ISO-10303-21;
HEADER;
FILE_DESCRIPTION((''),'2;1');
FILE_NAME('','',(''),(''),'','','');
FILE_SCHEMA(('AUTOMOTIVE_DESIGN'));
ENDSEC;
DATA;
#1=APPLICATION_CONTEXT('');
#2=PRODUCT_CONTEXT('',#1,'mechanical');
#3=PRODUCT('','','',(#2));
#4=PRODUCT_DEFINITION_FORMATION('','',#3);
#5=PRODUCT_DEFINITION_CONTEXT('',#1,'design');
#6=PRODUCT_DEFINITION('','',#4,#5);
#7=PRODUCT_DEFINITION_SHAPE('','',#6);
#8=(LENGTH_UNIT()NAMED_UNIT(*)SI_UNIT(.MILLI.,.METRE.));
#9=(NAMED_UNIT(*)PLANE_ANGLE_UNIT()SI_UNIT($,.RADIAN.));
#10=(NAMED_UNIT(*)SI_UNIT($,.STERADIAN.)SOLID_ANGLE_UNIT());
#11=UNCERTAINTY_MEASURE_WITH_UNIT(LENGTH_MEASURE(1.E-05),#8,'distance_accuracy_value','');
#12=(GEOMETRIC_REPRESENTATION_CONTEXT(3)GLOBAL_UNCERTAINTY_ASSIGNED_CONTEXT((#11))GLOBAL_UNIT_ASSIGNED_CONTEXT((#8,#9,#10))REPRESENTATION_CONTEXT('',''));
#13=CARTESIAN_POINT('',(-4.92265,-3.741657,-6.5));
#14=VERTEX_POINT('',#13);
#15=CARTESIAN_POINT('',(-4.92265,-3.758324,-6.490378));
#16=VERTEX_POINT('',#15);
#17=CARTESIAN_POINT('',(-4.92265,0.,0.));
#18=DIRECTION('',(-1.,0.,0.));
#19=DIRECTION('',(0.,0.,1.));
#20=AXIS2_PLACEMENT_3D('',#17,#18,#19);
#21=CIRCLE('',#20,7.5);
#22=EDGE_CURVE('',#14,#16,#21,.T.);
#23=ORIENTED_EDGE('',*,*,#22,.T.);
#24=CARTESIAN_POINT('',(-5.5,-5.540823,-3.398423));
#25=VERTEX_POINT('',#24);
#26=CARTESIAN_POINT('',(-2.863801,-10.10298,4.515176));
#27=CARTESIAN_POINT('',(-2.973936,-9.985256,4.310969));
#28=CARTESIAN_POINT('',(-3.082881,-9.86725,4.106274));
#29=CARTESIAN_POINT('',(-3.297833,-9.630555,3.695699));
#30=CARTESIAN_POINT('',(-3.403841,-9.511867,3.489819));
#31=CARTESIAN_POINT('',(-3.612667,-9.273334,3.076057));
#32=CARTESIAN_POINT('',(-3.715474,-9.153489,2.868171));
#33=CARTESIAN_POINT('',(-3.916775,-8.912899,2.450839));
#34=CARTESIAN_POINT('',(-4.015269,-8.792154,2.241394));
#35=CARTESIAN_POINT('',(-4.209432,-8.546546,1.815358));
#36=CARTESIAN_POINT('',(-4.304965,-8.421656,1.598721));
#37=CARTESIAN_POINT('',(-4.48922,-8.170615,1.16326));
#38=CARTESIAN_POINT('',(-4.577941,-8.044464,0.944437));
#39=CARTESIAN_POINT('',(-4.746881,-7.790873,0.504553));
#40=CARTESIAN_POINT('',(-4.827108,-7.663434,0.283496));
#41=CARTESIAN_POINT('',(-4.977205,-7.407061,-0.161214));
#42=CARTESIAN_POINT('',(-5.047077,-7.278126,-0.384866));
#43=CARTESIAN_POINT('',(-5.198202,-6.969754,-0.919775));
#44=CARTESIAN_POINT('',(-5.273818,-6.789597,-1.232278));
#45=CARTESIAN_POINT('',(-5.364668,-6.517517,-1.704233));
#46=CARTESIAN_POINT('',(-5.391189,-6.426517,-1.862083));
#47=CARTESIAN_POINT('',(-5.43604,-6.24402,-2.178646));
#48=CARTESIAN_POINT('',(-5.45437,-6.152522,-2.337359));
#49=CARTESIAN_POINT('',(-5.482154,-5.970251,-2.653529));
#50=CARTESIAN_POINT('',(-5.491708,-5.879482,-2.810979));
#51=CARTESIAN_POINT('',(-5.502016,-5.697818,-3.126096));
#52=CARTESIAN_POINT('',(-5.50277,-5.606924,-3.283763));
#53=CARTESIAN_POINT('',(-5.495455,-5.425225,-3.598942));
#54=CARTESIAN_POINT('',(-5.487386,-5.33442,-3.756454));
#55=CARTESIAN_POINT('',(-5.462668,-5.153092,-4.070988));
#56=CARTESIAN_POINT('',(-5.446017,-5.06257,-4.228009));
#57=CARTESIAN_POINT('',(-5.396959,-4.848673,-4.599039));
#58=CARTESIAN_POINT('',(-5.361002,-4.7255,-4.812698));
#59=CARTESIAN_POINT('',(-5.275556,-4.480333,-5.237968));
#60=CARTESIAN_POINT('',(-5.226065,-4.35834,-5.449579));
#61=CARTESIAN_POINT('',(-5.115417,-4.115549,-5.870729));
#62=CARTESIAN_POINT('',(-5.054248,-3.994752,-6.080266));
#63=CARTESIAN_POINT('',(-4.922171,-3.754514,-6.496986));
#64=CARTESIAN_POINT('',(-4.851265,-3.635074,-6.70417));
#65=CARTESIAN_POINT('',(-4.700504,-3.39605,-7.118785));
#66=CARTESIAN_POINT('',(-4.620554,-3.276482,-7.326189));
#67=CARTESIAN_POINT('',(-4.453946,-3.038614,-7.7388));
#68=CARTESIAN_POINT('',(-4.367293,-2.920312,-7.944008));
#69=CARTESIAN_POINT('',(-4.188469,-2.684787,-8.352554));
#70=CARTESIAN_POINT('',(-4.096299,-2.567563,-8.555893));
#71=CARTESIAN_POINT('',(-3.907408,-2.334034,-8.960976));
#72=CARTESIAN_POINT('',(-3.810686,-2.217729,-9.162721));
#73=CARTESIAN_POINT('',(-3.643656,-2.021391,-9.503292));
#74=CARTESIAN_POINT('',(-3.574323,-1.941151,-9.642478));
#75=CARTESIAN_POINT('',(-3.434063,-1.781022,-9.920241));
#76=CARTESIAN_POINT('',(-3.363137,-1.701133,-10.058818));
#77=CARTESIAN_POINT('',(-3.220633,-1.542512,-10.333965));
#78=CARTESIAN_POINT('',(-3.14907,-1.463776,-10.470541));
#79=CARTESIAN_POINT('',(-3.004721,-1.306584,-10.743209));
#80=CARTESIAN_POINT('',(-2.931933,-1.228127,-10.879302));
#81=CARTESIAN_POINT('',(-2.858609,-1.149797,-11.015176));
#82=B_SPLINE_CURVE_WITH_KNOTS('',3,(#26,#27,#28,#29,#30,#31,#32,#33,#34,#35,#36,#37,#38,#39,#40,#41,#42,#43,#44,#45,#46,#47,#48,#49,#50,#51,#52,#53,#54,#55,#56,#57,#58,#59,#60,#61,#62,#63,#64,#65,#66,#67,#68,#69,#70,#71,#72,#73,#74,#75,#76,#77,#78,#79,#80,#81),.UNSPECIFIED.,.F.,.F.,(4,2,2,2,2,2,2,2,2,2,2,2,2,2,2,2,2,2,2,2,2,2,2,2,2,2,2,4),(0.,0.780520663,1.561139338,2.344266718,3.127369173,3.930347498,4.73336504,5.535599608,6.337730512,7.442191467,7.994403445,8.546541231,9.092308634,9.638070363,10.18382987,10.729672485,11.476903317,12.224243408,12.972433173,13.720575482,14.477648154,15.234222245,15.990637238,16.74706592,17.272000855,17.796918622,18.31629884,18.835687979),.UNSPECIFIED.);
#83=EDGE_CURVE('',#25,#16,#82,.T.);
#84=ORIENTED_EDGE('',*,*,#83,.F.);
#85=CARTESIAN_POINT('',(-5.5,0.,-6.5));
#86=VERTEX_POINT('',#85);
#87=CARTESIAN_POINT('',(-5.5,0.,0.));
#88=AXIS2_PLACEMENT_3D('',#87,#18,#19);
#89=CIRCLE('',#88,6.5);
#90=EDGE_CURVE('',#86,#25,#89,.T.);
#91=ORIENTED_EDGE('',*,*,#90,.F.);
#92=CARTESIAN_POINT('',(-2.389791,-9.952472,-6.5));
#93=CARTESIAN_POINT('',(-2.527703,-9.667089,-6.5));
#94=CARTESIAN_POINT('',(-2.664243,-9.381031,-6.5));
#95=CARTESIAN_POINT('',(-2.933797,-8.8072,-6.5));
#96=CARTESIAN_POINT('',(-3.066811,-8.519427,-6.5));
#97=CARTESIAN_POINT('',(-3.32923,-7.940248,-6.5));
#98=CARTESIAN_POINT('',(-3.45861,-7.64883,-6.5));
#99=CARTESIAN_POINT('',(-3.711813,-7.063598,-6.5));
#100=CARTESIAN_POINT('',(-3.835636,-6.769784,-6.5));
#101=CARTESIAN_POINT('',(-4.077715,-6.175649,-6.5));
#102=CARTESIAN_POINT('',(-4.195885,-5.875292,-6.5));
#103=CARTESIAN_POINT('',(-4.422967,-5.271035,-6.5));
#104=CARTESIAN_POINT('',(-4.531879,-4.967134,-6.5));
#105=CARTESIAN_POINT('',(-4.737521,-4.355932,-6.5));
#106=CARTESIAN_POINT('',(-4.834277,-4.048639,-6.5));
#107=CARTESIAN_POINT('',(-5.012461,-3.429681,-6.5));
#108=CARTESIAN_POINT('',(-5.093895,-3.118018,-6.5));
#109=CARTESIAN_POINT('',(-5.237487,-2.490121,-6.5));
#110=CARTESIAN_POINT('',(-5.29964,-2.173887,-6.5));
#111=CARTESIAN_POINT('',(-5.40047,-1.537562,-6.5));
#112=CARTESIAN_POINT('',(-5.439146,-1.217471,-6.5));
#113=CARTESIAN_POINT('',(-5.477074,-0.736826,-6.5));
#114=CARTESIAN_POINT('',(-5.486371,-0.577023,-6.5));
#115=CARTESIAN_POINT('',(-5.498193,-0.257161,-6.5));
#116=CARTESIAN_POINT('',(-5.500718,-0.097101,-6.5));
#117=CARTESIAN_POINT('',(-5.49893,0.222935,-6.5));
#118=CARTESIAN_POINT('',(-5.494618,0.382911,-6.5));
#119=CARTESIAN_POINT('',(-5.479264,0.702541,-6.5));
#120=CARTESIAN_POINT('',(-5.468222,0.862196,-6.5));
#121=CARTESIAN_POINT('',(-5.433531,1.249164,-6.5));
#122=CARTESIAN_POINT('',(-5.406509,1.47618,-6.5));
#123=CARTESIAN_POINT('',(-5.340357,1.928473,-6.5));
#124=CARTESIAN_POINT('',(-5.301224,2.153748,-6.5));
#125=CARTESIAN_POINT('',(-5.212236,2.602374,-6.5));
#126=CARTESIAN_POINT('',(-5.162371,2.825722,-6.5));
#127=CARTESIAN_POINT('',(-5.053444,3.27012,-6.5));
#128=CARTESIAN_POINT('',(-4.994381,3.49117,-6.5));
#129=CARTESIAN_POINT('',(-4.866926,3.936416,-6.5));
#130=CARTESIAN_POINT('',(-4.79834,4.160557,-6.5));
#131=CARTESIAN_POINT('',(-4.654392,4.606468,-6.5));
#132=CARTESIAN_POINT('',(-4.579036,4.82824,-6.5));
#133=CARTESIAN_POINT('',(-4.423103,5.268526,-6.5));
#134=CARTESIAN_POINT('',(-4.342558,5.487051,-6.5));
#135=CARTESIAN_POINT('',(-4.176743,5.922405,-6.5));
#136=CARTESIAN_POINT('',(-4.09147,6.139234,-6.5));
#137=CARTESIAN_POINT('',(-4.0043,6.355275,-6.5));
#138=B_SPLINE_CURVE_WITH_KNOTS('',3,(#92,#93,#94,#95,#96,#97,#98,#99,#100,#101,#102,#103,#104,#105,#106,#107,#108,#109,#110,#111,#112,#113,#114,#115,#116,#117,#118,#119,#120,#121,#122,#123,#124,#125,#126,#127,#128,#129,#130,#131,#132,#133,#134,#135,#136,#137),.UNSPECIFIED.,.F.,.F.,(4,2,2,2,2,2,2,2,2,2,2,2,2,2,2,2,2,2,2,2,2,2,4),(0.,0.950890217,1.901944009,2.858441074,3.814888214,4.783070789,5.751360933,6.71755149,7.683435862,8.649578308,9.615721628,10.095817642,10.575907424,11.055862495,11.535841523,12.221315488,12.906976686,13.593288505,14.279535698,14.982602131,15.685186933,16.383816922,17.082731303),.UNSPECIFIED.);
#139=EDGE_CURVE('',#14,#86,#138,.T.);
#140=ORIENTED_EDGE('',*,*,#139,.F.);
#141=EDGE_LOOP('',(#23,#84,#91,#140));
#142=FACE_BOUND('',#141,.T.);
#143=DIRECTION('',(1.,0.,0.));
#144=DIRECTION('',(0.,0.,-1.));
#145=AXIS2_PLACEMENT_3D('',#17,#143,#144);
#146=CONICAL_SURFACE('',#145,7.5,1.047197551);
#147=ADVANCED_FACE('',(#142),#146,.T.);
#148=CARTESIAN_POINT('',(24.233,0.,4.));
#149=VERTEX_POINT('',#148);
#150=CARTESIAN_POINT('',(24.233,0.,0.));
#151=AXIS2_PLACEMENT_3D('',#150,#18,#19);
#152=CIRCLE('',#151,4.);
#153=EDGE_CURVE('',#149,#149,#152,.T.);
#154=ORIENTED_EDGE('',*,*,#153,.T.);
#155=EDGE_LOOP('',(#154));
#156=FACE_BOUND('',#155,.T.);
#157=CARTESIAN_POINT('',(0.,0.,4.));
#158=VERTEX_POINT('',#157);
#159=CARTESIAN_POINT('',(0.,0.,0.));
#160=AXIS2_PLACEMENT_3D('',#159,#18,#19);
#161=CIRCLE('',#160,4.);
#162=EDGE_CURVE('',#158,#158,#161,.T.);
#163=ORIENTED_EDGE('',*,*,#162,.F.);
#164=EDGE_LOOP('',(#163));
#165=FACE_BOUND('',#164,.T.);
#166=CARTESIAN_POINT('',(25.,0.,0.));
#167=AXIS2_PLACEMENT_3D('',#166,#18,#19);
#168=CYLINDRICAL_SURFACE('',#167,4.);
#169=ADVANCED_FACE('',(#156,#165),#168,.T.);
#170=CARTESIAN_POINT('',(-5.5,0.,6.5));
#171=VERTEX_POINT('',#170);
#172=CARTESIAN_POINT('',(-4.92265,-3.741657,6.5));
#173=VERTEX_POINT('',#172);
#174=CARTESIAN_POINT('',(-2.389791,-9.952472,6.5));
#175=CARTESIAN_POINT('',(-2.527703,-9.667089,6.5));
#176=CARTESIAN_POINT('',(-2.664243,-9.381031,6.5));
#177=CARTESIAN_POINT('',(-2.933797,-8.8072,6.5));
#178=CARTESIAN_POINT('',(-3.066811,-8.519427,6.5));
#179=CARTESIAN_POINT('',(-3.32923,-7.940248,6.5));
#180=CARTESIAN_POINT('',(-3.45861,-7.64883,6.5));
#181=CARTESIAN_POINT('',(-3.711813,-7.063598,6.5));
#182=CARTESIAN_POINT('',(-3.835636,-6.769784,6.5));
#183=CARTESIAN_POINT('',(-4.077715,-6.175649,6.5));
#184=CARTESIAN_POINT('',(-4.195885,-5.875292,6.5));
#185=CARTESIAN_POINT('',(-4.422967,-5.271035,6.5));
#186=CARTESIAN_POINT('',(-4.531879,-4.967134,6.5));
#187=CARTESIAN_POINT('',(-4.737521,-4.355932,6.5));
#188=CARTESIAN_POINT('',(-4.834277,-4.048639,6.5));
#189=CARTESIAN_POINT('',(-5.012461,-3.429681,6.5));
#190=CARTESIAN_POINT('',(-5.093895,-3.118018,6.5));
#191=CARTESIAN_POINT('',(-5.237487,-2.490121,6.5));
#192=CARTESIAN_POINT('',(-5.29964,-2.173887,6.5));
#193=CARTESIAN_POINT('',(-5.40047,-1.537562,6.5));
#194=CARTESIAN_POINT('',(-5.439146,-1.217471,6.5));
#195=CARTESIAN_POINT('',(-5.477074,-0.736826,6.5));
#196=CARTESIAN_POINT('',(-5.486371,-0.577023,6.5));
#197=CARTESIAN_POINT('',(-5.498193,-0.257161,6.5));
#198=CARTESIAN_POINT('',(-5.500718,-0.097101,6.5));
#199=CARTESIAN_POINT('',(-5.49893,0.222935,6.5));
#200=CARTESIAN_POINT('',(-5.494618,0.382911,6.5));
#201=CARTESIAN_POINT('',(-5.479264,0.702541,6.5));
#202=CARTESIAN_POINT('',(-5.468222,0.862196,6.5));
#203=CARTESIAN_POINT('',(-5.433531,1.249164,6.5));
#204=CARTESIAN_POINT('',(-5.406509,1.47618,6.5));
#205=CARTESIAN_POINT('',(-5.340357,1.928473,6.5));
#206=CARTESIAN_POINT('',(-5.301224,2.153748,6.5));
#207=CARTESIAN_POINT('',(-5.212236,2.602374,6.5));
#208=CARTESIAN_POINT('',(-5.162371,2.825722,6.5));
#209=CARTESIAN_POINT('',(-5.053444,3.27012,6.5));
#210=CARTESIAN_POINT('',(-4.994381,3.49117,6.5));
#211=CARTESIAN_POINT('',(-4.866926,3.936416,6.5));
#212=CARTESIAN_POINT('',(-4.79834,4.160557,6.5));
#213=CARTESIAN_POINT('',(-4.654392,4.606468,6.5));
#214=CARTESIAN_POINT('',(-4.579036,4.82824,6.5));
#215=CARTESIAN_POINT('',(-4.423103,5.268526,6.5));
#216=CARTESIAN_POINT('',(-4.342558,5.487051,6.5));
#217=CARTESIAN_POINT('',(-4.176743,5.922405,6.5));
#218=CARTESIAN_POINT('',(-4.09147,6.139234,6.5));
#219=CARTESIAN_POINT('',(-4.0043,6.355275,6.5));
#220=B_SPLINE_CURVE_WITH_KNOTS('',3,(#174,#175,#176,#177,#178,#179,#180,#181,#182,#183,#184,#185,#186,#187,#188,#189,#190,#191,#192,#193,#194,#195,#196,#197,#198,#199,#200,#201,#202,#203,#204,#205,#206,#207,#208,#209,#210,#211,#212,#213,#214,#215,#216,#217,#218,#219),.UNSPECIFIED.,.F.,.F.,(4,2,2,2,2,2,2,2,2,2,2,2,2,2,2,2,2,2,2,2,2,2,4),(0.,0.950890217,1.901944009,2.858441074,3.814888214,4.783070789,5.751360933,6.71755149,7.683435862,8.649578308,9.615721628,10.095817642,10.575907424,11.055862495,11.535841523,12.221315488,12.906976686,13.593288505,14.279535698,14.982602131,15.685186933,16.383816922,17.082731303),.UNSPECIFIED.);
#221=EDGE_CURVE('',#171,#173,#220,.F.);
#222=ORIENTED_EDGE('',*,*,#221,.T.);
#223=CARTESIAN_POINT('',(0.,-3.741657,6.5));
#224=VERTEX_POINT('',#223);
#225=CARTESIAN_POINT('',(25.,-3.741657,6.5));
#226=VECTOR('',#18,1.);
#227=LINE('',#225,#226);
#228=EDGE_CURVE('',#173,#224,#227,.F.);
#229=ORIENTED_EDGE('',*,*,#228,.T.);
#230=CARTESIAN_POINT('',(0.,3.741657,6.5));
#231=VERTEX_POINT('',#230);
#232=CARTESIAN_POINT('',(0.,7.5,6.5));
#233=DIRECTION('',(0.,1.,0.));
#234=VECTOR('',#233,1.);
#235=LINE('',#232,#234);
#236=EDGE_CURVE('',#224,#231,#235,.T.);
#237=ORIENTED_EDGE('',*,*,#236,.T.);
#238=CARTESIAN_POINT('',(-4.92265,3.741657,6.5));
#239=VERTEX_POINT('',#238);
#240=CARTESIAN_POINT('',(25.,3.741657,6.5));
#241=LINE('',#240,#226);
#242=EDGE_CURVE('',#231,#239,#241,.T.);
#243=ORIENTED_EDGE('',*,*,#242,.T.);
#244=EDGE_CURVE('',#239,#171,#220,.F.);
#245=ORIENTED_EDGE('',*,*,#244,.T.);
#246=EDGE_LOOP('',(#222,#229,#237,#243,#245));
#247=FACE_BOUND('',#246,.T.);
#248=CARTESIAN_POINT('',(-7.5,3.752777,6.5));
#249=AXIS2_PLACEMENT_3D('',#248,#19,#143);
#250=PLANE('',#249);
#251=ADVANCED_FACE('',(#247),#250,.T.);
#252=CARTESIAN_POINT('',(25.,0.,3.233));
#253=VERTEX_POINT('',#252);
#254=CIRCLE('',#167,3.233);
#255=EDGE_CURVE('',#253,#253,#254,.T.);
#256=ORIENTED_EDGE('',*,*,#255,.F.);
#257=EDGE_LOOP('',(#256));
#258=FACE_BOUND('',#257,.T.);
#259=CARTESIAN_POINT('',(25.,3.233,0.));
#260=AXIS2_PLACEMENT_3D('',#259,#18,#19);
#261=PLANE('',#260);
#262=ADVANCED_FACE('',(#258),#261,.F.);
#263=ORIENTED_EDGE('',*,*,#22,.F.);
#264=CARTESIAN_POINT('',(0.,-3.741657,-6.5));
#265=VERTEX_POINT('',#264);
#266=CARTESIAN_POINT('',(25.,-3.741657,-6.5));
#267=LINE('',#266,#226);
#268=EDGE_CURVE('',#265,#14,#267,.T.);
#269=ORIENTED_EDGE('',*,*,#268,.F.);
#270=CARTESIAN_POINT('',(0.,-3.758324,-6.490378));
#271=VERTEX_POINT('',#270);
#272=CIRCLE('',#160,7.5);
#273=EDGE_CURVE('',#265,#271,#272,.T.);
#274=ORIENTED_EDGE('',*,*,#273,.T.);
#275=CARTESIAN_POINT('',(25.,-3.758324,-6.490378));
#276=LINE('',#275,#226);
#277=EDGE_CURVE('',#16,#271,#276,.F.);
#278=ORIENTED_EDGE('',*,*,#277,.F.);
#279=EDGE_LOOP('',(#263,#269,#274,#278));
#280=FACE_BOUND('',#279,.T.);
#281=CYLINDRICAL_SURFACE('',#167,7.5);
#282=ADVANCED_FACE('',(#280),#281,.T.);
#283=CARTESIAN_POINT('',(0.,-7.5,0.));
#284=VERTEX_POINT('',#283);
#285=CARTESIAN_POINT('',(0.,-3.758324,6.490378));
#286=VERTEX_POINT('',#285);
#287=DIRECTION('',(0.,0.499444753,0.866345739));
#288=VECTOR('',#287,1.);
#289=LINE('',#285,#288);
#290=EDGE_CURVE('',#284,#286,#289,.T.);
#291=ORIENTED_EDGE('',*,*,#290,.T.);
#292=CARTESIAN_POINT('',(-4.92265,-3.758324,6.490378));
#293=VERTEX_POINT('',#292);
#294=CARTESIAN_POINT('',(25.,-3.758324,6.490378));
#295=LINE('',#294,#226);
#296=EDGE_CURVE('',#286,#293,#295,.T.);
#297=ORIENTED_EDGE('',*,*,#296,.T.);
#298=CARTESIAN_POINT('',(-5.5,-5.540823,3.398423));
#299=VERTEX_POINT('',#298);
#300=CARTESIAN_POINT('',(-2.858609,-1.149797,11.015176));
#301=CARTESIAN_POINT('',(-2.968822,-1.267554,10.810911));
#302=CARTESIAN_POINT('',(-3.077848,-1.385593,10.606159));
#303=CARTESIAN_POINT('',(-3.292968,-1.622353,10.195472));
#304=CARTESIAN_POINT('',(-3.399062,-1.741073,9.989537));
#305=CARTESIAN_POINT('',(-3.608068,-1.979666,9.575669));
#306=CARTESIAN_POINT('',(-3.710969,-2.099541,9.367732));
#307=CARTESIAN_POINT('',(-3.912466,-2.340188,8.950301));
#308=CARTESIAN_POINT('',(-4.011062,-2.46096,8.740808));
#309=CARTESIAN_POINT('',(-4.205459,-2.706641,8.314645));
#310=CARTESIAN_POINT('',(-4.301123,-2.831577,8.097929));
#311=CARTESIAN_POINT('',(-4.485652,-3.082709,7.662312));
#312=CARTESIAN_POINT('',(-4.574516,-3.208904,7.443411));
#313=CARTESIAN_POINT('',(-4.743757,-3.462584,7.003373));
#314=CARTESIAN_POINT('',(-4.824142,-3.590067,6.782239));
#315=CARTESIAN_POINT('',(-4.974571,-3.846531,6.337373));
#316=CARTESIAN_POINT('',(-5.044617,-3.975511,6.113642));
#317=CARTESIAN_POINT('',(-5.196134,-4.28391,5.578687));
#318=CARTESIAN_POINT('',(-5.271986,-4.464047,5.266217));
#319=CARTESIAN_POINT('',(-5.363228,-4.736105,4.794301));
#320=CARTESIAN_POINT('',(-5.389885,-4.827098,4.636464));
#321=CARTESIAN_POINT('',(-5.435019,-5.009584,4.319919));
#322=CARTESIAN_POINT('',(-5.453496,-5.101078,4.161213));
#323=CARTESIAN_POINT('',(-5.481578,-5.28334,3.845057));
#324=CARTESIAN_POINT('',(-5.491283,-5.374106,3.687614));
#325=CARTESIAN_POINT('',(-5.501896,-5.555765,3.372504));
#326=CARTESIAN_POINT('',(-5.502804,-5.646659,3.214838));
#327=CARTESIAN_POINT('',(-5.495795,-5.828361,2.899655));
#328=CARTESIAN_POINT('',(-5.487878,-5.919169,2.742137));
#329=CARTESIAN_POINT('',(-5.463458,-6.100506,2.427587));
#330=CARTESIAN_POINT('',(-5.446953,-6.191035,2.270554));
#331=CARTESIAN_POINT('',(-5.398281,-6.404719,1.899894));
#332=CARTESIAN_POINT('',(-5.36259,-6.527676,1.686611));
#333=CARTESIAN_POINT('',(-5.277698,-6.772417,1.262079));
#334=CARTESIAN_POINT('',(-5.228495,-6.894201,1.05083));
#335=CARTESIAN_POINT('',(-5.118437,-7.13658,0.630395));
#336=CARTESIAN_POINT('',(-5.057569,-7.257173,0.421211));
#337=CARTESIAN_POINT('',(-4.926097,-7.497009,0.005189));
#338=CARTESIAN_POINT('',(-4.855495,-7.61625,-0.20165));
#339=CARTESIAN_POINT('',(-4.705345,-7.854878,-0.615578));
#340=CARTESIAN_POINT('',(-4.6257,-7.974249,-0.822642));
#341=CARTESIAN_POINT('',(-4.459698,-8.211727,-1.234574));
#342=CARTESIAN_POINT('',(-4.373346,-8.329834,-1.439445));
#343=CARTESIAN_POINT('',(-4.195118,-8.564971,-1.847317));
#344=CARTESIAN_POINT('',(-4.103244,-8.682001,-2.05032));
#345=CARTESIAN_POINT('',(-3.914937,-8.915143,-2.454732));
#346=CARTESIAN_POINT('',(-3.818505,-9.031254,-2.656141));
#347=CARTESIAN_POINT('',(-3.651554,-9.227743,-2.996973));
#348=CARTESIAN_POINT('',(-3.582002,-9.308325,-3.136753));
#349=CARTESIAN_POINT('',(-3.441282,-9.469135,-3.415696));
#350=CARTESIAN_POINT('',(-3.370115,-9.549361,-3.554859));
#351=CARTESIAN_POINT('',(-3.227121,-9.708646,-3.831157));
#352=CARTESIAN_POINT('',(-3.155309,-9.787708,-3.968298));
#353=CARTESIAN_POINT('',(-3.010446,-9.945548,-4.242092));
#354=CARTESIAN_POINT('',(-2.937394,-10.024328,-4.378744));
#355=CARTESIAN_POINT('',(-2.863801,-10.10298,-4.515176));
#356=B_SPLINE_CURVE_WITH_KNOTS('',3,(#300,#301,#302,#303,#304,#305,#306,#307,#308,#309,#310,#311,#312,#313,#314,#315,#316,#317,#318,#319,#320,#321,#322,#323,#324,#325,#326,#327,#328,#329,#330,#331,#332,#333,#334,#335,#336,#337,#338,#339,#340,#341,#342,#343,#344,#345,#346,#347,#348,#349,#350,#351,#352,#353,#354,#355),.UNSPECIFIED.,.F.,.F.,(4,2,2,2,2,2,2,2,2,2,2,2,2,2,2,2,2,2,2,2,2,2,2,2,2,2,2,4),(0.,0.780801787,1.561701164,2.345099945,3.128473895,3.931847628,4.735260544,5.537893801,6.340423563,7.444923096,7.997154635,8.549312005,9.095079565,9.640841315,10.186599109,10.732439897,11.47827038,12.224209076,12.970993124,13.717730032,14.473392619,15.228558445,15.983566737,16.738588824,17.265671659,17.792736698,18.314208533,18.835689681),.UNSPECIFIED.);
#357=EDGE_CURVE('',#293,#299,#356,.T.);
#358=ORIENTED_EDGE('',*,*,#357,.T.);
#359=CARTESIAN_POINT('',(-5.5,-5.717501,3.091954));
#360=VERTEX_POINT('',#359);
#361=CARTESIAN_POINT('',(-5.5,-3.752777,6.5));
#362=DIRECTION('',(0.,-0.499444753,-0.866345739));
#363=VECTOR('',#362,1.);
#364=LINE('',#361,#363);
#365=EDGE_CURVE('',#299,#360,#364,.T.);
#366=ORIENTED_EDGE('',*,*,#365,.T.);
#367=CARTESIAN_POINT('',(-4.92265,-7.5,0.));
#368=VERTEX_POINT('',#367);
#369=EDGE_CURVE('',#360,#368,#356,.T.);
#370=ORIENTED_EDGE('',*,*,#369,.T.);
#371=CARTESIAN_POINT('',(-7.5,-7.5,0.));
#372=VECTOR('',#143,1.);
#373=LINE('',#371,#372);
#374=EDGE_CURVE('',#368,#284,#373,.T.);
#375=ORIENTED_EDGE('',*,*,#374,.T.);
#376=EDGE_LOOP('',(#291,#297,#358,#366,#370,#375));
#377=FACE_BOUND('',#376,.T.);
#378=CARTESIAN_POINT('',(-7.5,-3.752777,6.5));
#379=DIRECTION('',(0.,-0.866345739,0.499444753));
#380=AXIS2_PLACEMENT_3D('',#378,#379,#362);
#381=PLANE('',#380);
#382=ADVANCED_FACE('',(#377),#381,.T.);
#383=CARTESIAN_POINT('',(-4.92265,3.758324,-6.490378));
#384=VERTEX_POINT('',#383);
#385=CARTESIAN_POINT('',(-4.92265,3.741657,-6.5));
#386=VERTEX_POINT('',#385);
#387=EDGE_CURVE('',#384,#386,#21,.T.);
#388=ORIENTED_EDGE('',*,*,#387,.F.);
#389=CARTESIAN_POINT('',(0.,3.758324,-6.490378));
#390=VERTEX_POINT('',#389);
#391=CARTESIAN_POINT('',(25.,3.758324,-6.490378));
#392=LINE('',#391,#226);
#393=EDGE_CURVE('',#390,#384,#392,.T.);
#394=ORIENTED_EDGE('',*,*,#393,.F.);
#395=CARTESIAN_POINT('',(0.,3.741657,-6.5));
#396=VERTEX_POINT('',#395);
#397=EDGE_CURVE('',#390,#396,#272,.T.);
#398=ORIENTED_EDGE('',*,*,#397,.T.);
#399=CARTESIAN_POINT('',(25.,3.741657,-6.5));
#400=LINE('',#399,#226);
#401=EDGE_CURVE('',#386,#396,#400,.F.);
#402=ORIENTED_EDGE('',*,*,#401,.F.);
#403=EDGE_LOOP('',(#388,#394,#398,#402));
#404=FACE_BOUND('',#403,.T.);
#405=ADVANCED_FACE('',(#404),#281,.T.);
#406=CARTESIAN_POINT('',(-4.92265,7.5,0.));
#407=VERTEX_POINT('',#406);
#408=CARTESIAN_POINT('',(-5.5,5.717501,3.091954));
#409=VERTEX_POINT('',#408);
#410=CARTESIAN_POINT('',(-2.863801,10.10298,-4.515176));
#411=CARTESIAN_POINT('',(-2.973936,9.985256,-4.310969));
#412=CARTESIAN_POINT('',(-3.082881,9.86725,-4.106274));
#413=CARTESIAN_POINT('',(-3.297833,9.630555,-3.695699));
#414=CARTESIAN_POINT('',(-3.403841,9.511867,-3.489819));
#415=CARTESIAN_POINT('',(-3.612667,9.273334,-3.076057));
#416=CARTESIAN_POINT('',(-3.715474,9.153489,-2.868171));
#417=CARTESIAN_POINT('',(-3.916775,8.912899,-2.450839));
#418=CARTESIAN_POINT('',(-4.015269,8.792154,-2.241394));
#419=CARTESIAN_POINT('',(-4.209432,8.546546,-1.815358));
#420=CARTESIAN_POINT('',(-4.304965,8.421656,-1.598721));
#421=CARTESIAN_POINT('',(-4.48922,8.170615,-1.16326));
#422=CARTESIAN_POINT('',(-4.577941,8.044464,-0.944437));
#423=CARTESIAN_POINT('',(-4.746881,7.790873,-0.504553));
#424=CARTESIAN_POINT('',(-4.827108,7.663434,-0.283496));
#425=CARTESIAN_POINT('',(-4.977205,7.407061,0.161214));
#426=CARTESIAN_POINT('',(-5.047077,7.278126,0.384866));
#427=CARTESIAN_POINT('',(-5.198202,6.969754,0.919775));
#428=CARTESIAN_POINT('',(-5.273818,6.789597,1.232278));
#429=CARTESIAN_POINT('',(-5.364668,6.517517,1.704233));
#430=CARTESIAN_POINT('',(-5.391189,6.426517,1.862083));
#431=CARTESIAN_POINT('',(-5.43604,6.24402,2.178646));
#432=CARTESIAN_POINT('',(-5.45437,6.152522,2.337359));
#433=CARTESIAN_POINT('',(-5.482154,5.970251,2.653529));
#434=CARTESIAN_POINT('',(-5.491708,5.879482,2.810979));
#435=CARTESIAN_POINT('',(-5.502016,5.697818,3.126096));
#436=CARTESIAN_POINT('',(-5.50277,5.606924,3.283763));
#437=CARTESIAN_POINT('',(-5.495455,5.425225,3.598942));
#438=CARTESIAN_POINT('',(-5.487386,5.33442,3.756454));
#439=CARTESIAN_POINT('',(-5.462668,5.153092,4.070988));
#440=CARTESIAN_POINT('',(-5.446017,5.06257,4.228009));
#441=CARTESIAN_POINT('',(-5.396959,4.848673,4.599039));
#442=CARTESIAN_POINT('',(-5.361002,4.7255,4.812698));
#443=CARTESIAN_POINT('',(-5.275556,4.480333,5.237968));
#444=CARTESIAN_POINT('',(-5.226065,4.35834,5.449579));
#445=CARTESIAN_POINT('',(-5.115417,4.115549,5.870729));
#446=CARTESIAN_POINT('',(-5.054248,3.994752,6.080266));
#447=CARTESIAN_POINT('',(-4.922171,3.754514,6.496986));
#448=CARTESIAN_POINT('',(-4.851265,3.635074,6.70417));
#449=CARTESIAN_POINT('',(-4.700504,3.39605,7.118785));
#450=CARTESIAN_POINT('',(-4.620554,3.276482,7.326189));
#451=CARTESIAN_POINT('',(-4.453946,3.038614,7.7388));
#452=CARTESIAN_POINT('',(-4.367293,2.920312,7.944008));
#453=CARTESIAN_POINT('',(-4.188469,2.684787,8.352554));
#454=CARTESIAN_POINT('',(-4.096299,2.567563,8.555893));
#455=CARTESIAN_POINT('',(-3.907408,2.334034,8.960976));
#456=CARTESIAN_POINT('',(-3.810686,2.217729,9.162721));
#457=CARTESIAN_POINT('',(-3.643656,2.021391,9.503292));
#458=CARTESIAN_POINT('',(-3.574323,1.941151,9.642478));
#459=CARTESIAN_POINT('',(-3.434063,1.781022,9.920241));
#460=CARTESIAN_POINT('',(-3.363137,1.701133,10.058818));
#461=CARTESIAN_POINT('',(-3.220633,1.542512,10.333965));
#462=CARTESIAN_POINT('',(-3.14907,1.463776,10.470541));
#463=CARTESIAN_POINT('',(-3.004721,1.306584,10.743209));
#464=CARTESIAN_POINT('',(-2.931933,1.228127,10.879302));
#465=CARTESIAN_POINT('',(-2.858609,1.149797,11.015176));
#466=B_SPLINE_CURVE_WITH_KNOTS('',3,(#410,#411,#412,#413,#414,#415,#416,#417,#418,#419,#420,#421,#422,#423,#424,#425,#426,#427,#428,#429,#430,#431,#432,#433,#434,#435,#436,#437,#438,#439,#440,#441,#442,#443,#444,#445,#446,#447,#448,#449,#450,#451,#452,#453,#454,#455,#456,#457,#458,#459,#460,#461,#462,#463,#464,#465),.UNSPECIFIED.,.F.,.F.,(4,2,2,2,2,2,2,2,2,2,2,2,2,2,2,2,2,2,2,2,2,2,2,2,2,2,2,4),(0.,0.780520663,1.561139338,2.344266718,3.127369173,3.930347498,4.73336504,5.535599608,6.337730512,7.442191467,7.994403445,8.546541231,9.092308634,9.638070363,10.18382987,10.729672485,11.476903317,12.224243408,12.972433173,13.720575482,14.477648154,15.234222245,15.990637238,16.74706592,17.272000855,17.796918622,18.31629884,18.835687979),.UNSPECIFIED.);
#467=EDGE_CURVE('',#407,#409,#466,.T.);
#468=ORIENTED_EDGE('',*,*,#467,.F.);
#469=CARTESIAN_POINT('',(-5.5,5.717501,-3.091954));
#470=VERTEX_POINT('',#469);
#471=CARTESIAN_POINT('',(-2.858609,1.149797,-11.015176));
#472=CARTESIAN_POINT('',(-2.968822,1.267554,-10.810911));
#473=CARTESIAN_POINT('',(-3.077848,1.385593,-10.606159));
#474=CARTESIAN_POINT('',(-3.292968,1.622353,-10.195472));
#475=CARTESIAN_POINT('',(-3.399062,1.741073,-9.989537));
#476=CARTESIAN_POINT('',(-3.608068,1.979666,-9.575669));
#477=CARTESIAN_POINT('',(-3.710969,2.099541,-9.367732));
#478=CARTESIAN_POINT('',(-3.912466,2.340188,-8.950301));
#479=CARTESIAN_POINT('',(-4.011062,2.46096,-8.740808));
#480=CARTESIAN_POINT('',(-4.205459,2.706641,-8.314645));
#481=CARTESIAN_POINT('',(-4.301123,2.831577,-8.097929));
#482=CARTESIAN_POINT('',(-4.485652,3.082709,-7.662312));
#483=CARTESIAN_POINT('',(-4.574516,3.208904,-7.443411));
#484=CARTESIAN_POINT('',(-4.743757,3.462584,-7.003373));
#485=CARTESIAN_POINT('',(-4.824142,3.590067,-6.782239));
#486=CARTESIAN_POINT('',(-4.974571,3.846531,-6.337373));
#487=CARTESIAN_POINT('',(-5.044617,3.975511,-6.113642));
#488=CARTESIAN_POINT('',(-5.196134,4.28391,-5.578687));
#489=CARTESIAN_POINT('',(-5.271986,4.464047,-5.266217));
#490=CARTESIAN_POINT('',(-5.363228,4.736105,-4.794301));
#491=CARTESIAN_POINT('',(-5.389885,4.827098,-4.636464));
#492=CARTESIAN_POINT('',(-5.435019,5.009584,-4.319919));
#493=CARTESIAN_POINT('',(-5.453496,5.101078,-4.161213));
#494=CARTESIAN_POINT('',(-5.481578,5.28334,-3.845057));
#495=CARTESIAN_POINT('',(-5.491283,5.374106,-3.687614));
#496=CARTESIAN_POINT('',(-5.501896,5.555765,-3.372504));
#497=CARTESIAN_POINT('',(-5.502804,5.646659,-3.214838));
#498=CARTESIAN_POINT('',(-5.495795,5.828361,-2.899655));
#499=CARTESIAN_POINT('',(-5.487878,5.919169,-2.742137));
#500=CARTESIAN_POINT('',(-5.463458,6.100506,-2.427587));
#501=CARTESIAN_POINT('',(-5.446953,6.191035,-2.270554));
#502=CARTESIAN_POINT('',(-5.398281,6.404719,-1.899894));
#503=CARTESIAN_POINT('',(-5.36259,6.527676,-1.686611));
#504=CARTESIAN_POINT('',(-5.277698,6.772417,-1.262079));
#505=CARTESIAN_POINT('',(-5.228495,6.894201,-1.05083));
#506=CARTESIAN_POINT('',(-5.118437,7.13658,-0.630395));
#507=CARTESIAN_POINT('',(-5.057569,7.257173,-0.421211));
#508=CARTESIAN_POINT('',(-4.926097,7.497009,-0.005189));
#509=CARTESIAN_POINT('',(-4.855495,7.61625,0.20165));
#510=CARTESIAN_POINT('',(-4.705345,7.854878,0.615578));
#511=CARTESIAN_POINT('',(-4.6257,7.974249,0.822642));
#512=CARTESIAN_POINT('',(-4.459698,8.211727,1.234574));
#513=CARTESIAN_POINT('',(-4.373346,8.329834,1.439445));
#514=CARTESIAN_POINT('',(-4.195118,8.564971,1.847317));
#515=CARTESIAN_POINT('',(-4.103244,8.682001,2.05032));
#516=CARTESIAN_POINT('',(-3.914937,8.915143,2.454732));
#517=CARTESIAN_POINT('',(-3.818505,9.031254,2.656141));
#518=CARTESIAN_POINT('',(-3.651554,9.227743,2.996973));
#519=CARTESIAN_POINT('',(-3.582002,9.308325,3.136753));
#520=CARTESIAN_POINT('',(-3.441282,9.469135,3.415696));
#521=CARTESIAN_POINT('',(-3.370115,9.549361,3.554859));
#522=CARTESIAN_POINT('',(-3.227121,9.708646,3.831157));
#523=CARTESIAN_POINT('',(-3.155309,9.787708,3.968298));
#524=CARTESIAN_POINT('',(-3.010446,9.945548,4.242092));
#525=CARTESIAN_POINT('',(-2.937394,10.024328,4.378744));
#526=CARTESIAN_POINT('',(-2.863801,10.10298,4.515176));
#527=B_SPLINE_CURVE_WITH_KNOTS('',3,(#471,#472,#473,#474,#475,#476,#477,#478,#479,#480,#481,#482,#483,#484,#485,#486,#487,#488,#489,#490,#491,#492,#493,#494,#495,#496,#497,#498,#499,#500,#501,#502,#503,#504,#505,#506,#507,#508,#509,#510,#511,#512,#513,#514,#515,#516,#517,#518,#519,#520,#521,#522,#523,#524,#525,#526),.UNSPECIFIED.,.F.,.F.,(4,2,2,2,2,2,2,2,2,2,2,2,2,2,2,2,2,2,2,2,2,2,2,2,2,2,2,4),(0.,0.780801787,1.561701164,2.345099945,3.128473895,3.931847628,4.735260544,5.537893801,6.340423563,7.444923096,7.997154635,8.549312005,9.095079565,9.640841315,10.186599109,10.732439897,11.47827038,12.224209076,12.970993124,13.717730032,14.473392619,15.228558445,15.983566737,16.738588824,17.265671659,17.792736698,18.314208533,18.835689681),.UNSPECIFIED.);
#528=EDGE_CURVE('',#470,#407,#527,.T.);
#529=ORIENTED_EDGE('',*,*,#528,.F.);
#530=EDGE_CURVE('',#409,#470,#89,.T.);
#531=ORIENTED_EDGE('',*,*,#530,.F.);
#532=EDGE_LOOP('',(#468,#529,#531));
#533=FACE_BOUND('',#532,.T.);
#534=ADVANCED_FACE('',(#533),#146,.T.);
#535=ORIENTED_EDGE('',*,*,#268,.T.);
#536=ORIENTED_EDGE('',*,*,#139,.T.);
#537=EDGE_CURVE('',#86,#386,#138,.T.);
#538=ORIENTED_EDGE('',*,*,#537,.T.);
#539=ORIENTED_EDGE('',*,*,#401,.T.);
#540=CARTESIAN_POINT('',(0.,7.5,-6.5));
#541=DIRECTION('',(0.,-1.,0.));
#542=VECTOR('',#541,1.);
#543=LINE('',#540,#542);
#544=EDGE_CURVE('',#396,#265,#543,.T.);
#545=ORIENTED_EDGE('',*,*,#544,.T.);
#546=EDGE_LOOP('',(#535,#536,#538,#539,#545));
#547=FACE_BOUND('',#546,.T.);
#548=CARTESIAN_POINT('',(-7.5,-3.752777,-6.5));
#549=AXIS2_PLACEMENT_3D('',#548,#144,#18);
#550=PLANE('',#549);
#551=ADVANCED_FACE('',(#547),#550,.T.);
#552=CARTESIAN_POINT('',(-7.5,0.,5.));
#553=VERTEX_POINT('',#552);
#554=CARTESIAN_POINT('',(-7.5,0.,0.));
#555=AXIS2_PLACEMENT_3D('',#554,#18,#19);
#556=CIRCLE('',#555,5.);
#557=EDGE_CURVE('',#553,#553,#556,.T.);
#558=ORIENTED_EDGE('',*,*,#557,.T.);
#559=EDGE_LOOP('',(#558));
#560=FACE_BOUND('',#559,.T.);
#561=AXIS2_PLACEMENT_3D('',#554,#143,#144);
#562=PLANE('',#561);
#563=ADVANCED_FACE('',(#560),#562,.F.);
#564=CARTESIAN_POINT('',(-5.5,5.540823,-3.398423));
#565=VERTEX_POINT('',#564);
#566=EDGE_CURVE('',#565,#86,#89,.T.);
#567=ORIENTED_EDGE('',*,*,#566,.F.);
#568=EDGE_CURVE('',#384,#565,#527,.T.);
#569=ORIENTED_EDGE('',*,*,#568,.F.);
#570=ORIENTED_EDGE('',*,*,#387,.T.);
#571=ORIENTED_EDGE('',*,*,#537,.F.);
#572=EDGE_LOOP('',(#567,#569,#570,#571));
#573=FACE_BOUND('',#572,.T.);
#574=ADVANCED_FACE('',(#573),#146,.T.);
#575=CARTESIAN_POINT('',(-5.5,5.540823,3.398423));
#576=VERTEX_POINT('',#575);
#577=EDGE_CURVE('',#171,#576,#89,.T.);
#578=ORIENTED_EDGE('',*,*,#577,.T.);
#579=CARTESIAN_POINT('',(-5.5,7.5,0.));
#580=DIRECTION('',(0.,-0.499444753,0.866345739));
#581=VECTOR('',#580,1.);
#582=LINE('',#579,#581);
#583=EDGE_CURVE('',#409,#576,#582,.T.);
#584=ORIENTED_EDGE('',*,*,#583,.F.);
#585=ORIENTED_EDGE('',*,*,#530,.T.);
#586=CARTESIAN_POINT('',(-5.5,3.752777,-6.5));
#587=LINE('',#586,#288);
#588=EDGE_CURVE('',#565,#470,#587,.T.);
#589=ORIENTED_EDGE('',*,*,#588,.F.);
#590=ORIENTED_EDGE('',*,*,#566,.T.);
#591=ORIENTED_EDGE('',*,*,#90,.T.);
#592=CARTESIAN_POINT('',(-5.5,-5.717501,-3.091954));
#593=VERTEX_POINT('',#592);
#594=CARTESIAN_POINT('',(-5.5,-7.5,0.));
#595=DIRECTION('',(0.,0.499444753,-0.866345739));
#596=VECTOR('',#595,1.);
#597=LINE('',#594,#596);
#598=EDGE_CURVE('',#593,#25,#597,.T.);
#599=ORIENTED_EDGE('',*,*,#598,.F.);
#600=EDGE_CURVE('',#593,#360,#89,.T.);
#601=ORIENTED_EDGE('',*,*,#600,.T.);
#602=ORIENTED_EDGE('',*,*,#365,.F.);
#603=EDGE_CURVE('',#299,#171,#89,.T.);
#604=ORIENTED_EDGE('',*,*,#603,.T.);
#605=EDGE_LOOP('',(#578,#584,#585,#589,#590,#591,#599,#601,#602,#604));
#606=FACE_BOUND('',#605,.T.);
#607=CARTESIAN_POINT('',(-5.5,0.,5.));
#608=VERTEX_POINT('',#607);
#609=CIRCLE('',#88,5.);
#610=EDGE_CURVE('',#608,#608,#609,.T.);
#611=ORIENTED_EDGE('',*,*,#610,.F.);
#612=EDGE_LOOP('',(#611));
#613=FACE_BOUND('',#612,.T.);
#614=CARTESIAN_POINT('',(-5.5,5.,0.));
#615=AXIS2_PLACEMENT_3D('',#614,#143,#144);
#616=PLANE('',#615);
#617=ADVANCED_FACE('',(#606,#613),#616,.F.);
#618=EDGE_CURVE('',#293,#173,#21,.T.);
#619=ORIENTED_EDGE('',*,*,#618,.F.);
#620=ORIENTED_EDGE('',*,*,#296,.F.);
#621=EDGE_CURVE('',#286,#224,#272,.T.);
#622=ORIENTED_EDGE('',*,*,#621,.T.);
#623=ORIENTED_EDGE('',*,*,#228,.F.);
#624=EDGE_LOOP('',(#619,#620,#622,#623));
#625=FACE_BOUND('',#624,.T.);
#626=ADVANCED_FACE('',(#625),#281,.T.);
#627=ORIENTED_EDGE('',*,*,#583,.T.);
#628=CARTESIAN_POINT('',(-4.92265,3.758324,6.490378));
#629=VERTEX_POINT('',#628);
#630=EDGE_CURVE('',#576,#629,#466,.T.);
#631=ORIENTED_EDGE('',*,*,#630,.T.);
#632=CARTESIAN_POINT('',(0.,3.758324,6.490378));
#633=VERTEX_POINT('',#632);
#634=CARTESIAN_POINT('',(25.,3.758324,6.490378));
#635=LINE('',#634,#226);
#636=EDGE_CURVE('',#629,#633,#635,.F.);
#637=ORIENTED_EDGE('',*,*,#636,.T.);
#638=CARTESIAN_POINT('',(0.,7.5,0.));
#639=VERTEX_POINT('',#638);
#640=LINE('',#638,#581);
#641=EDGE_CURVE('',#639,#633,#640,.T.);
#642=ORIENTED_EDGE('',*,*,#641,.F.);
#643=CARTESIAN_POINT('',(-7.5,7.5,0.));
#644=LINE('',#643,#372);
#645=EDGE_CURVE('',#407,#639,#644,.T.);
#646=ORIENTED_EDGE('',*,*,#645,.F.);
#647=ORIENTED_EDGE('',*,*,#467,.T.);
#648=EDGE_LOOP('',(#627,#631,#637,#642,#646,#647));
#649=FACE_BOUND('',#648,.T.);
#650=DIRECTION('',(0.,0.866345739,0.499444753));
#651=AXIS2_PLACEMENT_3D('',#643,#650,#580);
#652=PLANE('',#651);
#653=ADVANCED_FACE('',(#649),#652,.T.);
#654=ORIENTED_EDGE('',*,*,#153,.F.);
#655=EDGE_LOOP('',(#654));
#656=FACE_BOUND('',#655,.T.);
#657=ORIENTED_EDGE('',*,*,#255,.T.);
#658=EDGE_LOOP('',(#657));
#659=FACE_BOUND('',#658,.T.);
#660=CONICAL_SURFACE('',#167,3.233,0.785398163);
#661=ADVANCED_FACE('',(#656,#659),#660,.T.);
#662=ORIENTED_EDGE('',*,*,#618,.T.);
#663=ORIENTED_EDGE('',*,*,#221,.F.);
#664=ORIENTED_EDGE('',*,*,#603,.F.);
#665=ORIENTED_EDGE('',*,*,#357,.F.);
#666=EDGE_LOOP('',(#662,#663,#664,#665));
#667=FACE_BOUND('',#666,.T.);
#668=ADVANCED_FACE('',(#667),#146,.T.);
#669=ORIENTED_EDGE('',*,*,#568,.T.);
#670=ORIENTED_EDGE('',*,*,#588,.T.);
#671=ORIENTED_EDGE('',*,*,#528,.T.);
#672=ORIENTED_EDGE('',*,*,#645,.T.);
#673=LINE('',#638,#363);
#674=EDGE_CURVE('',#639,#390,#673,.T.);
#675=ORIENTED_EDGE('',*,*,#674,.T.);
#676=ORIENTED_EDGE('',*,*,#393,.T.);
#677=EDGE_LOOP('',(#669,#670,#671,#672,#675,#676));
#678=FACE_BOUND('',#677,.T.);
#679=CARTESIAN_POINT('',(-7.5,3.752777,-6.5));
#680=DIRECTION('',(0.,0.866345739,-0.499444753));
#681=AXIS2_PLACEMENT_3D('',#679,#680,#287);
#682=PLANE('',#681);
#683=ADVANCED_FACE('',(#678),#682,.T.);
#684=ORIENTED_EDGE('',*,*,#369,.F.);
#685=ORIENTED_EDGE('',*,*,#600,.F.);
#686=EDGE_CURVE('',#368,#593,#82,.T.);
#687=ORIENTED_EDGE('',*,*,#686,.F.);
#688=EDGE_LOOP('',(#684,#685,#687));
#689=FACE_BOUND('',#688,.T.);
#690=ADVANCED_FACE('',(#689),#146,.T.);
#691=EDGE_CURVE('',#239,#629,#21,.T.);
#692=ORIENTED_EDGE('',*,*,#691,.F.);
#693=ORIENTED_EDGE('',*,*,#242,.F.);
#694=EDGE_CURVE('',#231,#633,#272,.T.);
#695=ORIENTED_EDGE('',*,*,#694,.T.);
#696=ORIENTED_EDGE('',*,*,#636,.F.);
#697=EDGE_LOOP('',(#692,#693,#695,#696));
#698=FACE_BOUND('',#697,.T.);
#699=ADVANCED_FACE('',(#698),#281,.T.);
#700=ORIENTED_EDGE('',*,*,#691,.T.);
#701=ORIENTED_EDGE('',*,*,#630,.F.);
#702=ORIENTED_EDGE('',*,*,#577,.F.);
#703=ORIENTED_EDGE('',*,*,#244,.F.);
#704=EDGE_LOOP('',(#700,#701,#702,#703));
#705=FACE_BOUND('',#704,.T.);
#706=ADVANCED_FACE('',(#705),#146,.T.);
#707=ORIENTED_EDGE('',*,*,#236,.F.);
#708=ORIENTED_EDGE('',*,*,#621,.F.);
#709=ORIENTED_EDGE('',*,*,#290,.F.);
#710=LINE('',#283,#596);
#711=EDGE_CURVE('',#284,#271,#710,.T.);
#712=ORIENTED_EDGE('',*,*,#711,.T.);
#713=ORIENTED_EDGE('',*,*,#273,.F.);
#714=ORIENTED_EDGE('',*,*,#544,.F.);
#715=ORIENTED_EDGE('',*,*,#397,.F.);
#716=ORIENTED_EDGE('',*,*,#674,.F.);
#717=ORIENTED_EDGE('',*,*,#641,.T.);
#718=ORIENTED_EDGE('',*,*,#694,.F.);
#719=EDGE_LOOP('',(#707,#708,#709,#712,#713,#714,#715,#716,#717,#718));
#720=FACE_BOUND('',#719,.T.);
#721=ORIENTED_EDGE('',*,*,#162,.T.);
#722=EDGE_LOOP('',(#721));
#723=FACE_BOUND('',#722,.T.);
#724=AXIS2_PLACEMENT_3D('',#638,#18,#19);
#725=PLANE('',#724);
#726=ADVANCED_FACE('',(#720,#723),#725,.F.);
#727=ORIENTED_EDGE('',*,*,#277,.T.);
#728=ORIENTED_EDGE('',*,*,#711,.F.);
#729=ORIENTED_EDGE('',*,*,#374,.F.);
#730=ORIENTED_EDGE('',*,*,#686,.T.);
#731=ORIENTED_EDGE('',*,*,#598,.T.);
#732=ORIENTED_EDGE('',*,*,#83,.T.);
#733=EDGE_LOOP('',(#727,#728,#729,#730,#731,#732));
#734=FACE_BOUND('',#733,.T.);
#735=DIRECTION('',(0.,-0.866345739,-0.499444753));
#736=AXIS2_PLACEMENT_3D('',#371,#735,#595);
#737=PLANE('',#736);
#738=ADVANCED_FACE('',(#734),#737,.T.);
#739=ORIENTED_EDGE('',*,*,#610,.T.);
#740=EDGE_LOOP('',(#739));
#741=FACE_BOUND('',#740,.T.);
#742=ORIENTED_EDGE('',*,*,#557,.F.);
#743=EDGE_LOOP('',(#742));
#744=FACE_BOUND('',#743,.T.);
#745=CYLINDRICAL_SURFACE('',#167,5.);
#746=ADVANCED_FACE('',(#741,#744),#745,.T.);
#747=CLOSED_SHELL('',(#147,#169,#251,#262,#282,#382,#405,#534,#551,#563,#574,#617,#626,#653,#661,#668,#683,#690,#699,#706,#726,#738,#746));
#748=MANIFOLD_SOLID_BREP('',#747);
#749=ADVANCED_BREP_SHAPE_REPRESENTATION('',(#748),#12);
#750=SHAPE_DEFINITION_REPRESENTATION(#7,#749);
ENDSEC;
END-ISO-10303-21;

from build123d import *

# Parameters (mm, degrees)
SKETCH_2_W          = 30
SKETCH_2_H          = 30
CUT_EXTRUDE_1_DEPTH = 7.5


with BuildPart() as part:
    # 草图1 → 旋转1 (revolve)
    with BuildSketch(Plane.XY):
        Polygon((-7.5, 0), (-7.5, 5), (-5.5, 5), (-5.5, 6.5), (-4.922649731, 7.5), (0, 7.5), (0, 4), (24.233, 4), (25, 3.233), (25, 0), align=None)
    revolve(axis=Axis((25, 0, 0), (-1, 0, 0)))

    # 草图2 → 切除-拉伸1 (cut)
    with BuildSketch(Plane(origin=(0, 0, 0), x_dir=(0, 0, -1), z_dir=(1, 0, 0))):
        Rectangle(SKETCH_2_W, SKETCH_2_H)
        Polygon((-6.5, 3.75277675), (-6.5, -3.75277675), (0, -7.5), (6.5, -3.75277675), (6.5, 3.75277675), (0, 7.5), align=None, mode=Mode.SUBTRACT)
    extrude(amount=-CUT_EXTRUDE_1_DEPTH, mode=Mode.SUBTRACT)


solid = part.part
